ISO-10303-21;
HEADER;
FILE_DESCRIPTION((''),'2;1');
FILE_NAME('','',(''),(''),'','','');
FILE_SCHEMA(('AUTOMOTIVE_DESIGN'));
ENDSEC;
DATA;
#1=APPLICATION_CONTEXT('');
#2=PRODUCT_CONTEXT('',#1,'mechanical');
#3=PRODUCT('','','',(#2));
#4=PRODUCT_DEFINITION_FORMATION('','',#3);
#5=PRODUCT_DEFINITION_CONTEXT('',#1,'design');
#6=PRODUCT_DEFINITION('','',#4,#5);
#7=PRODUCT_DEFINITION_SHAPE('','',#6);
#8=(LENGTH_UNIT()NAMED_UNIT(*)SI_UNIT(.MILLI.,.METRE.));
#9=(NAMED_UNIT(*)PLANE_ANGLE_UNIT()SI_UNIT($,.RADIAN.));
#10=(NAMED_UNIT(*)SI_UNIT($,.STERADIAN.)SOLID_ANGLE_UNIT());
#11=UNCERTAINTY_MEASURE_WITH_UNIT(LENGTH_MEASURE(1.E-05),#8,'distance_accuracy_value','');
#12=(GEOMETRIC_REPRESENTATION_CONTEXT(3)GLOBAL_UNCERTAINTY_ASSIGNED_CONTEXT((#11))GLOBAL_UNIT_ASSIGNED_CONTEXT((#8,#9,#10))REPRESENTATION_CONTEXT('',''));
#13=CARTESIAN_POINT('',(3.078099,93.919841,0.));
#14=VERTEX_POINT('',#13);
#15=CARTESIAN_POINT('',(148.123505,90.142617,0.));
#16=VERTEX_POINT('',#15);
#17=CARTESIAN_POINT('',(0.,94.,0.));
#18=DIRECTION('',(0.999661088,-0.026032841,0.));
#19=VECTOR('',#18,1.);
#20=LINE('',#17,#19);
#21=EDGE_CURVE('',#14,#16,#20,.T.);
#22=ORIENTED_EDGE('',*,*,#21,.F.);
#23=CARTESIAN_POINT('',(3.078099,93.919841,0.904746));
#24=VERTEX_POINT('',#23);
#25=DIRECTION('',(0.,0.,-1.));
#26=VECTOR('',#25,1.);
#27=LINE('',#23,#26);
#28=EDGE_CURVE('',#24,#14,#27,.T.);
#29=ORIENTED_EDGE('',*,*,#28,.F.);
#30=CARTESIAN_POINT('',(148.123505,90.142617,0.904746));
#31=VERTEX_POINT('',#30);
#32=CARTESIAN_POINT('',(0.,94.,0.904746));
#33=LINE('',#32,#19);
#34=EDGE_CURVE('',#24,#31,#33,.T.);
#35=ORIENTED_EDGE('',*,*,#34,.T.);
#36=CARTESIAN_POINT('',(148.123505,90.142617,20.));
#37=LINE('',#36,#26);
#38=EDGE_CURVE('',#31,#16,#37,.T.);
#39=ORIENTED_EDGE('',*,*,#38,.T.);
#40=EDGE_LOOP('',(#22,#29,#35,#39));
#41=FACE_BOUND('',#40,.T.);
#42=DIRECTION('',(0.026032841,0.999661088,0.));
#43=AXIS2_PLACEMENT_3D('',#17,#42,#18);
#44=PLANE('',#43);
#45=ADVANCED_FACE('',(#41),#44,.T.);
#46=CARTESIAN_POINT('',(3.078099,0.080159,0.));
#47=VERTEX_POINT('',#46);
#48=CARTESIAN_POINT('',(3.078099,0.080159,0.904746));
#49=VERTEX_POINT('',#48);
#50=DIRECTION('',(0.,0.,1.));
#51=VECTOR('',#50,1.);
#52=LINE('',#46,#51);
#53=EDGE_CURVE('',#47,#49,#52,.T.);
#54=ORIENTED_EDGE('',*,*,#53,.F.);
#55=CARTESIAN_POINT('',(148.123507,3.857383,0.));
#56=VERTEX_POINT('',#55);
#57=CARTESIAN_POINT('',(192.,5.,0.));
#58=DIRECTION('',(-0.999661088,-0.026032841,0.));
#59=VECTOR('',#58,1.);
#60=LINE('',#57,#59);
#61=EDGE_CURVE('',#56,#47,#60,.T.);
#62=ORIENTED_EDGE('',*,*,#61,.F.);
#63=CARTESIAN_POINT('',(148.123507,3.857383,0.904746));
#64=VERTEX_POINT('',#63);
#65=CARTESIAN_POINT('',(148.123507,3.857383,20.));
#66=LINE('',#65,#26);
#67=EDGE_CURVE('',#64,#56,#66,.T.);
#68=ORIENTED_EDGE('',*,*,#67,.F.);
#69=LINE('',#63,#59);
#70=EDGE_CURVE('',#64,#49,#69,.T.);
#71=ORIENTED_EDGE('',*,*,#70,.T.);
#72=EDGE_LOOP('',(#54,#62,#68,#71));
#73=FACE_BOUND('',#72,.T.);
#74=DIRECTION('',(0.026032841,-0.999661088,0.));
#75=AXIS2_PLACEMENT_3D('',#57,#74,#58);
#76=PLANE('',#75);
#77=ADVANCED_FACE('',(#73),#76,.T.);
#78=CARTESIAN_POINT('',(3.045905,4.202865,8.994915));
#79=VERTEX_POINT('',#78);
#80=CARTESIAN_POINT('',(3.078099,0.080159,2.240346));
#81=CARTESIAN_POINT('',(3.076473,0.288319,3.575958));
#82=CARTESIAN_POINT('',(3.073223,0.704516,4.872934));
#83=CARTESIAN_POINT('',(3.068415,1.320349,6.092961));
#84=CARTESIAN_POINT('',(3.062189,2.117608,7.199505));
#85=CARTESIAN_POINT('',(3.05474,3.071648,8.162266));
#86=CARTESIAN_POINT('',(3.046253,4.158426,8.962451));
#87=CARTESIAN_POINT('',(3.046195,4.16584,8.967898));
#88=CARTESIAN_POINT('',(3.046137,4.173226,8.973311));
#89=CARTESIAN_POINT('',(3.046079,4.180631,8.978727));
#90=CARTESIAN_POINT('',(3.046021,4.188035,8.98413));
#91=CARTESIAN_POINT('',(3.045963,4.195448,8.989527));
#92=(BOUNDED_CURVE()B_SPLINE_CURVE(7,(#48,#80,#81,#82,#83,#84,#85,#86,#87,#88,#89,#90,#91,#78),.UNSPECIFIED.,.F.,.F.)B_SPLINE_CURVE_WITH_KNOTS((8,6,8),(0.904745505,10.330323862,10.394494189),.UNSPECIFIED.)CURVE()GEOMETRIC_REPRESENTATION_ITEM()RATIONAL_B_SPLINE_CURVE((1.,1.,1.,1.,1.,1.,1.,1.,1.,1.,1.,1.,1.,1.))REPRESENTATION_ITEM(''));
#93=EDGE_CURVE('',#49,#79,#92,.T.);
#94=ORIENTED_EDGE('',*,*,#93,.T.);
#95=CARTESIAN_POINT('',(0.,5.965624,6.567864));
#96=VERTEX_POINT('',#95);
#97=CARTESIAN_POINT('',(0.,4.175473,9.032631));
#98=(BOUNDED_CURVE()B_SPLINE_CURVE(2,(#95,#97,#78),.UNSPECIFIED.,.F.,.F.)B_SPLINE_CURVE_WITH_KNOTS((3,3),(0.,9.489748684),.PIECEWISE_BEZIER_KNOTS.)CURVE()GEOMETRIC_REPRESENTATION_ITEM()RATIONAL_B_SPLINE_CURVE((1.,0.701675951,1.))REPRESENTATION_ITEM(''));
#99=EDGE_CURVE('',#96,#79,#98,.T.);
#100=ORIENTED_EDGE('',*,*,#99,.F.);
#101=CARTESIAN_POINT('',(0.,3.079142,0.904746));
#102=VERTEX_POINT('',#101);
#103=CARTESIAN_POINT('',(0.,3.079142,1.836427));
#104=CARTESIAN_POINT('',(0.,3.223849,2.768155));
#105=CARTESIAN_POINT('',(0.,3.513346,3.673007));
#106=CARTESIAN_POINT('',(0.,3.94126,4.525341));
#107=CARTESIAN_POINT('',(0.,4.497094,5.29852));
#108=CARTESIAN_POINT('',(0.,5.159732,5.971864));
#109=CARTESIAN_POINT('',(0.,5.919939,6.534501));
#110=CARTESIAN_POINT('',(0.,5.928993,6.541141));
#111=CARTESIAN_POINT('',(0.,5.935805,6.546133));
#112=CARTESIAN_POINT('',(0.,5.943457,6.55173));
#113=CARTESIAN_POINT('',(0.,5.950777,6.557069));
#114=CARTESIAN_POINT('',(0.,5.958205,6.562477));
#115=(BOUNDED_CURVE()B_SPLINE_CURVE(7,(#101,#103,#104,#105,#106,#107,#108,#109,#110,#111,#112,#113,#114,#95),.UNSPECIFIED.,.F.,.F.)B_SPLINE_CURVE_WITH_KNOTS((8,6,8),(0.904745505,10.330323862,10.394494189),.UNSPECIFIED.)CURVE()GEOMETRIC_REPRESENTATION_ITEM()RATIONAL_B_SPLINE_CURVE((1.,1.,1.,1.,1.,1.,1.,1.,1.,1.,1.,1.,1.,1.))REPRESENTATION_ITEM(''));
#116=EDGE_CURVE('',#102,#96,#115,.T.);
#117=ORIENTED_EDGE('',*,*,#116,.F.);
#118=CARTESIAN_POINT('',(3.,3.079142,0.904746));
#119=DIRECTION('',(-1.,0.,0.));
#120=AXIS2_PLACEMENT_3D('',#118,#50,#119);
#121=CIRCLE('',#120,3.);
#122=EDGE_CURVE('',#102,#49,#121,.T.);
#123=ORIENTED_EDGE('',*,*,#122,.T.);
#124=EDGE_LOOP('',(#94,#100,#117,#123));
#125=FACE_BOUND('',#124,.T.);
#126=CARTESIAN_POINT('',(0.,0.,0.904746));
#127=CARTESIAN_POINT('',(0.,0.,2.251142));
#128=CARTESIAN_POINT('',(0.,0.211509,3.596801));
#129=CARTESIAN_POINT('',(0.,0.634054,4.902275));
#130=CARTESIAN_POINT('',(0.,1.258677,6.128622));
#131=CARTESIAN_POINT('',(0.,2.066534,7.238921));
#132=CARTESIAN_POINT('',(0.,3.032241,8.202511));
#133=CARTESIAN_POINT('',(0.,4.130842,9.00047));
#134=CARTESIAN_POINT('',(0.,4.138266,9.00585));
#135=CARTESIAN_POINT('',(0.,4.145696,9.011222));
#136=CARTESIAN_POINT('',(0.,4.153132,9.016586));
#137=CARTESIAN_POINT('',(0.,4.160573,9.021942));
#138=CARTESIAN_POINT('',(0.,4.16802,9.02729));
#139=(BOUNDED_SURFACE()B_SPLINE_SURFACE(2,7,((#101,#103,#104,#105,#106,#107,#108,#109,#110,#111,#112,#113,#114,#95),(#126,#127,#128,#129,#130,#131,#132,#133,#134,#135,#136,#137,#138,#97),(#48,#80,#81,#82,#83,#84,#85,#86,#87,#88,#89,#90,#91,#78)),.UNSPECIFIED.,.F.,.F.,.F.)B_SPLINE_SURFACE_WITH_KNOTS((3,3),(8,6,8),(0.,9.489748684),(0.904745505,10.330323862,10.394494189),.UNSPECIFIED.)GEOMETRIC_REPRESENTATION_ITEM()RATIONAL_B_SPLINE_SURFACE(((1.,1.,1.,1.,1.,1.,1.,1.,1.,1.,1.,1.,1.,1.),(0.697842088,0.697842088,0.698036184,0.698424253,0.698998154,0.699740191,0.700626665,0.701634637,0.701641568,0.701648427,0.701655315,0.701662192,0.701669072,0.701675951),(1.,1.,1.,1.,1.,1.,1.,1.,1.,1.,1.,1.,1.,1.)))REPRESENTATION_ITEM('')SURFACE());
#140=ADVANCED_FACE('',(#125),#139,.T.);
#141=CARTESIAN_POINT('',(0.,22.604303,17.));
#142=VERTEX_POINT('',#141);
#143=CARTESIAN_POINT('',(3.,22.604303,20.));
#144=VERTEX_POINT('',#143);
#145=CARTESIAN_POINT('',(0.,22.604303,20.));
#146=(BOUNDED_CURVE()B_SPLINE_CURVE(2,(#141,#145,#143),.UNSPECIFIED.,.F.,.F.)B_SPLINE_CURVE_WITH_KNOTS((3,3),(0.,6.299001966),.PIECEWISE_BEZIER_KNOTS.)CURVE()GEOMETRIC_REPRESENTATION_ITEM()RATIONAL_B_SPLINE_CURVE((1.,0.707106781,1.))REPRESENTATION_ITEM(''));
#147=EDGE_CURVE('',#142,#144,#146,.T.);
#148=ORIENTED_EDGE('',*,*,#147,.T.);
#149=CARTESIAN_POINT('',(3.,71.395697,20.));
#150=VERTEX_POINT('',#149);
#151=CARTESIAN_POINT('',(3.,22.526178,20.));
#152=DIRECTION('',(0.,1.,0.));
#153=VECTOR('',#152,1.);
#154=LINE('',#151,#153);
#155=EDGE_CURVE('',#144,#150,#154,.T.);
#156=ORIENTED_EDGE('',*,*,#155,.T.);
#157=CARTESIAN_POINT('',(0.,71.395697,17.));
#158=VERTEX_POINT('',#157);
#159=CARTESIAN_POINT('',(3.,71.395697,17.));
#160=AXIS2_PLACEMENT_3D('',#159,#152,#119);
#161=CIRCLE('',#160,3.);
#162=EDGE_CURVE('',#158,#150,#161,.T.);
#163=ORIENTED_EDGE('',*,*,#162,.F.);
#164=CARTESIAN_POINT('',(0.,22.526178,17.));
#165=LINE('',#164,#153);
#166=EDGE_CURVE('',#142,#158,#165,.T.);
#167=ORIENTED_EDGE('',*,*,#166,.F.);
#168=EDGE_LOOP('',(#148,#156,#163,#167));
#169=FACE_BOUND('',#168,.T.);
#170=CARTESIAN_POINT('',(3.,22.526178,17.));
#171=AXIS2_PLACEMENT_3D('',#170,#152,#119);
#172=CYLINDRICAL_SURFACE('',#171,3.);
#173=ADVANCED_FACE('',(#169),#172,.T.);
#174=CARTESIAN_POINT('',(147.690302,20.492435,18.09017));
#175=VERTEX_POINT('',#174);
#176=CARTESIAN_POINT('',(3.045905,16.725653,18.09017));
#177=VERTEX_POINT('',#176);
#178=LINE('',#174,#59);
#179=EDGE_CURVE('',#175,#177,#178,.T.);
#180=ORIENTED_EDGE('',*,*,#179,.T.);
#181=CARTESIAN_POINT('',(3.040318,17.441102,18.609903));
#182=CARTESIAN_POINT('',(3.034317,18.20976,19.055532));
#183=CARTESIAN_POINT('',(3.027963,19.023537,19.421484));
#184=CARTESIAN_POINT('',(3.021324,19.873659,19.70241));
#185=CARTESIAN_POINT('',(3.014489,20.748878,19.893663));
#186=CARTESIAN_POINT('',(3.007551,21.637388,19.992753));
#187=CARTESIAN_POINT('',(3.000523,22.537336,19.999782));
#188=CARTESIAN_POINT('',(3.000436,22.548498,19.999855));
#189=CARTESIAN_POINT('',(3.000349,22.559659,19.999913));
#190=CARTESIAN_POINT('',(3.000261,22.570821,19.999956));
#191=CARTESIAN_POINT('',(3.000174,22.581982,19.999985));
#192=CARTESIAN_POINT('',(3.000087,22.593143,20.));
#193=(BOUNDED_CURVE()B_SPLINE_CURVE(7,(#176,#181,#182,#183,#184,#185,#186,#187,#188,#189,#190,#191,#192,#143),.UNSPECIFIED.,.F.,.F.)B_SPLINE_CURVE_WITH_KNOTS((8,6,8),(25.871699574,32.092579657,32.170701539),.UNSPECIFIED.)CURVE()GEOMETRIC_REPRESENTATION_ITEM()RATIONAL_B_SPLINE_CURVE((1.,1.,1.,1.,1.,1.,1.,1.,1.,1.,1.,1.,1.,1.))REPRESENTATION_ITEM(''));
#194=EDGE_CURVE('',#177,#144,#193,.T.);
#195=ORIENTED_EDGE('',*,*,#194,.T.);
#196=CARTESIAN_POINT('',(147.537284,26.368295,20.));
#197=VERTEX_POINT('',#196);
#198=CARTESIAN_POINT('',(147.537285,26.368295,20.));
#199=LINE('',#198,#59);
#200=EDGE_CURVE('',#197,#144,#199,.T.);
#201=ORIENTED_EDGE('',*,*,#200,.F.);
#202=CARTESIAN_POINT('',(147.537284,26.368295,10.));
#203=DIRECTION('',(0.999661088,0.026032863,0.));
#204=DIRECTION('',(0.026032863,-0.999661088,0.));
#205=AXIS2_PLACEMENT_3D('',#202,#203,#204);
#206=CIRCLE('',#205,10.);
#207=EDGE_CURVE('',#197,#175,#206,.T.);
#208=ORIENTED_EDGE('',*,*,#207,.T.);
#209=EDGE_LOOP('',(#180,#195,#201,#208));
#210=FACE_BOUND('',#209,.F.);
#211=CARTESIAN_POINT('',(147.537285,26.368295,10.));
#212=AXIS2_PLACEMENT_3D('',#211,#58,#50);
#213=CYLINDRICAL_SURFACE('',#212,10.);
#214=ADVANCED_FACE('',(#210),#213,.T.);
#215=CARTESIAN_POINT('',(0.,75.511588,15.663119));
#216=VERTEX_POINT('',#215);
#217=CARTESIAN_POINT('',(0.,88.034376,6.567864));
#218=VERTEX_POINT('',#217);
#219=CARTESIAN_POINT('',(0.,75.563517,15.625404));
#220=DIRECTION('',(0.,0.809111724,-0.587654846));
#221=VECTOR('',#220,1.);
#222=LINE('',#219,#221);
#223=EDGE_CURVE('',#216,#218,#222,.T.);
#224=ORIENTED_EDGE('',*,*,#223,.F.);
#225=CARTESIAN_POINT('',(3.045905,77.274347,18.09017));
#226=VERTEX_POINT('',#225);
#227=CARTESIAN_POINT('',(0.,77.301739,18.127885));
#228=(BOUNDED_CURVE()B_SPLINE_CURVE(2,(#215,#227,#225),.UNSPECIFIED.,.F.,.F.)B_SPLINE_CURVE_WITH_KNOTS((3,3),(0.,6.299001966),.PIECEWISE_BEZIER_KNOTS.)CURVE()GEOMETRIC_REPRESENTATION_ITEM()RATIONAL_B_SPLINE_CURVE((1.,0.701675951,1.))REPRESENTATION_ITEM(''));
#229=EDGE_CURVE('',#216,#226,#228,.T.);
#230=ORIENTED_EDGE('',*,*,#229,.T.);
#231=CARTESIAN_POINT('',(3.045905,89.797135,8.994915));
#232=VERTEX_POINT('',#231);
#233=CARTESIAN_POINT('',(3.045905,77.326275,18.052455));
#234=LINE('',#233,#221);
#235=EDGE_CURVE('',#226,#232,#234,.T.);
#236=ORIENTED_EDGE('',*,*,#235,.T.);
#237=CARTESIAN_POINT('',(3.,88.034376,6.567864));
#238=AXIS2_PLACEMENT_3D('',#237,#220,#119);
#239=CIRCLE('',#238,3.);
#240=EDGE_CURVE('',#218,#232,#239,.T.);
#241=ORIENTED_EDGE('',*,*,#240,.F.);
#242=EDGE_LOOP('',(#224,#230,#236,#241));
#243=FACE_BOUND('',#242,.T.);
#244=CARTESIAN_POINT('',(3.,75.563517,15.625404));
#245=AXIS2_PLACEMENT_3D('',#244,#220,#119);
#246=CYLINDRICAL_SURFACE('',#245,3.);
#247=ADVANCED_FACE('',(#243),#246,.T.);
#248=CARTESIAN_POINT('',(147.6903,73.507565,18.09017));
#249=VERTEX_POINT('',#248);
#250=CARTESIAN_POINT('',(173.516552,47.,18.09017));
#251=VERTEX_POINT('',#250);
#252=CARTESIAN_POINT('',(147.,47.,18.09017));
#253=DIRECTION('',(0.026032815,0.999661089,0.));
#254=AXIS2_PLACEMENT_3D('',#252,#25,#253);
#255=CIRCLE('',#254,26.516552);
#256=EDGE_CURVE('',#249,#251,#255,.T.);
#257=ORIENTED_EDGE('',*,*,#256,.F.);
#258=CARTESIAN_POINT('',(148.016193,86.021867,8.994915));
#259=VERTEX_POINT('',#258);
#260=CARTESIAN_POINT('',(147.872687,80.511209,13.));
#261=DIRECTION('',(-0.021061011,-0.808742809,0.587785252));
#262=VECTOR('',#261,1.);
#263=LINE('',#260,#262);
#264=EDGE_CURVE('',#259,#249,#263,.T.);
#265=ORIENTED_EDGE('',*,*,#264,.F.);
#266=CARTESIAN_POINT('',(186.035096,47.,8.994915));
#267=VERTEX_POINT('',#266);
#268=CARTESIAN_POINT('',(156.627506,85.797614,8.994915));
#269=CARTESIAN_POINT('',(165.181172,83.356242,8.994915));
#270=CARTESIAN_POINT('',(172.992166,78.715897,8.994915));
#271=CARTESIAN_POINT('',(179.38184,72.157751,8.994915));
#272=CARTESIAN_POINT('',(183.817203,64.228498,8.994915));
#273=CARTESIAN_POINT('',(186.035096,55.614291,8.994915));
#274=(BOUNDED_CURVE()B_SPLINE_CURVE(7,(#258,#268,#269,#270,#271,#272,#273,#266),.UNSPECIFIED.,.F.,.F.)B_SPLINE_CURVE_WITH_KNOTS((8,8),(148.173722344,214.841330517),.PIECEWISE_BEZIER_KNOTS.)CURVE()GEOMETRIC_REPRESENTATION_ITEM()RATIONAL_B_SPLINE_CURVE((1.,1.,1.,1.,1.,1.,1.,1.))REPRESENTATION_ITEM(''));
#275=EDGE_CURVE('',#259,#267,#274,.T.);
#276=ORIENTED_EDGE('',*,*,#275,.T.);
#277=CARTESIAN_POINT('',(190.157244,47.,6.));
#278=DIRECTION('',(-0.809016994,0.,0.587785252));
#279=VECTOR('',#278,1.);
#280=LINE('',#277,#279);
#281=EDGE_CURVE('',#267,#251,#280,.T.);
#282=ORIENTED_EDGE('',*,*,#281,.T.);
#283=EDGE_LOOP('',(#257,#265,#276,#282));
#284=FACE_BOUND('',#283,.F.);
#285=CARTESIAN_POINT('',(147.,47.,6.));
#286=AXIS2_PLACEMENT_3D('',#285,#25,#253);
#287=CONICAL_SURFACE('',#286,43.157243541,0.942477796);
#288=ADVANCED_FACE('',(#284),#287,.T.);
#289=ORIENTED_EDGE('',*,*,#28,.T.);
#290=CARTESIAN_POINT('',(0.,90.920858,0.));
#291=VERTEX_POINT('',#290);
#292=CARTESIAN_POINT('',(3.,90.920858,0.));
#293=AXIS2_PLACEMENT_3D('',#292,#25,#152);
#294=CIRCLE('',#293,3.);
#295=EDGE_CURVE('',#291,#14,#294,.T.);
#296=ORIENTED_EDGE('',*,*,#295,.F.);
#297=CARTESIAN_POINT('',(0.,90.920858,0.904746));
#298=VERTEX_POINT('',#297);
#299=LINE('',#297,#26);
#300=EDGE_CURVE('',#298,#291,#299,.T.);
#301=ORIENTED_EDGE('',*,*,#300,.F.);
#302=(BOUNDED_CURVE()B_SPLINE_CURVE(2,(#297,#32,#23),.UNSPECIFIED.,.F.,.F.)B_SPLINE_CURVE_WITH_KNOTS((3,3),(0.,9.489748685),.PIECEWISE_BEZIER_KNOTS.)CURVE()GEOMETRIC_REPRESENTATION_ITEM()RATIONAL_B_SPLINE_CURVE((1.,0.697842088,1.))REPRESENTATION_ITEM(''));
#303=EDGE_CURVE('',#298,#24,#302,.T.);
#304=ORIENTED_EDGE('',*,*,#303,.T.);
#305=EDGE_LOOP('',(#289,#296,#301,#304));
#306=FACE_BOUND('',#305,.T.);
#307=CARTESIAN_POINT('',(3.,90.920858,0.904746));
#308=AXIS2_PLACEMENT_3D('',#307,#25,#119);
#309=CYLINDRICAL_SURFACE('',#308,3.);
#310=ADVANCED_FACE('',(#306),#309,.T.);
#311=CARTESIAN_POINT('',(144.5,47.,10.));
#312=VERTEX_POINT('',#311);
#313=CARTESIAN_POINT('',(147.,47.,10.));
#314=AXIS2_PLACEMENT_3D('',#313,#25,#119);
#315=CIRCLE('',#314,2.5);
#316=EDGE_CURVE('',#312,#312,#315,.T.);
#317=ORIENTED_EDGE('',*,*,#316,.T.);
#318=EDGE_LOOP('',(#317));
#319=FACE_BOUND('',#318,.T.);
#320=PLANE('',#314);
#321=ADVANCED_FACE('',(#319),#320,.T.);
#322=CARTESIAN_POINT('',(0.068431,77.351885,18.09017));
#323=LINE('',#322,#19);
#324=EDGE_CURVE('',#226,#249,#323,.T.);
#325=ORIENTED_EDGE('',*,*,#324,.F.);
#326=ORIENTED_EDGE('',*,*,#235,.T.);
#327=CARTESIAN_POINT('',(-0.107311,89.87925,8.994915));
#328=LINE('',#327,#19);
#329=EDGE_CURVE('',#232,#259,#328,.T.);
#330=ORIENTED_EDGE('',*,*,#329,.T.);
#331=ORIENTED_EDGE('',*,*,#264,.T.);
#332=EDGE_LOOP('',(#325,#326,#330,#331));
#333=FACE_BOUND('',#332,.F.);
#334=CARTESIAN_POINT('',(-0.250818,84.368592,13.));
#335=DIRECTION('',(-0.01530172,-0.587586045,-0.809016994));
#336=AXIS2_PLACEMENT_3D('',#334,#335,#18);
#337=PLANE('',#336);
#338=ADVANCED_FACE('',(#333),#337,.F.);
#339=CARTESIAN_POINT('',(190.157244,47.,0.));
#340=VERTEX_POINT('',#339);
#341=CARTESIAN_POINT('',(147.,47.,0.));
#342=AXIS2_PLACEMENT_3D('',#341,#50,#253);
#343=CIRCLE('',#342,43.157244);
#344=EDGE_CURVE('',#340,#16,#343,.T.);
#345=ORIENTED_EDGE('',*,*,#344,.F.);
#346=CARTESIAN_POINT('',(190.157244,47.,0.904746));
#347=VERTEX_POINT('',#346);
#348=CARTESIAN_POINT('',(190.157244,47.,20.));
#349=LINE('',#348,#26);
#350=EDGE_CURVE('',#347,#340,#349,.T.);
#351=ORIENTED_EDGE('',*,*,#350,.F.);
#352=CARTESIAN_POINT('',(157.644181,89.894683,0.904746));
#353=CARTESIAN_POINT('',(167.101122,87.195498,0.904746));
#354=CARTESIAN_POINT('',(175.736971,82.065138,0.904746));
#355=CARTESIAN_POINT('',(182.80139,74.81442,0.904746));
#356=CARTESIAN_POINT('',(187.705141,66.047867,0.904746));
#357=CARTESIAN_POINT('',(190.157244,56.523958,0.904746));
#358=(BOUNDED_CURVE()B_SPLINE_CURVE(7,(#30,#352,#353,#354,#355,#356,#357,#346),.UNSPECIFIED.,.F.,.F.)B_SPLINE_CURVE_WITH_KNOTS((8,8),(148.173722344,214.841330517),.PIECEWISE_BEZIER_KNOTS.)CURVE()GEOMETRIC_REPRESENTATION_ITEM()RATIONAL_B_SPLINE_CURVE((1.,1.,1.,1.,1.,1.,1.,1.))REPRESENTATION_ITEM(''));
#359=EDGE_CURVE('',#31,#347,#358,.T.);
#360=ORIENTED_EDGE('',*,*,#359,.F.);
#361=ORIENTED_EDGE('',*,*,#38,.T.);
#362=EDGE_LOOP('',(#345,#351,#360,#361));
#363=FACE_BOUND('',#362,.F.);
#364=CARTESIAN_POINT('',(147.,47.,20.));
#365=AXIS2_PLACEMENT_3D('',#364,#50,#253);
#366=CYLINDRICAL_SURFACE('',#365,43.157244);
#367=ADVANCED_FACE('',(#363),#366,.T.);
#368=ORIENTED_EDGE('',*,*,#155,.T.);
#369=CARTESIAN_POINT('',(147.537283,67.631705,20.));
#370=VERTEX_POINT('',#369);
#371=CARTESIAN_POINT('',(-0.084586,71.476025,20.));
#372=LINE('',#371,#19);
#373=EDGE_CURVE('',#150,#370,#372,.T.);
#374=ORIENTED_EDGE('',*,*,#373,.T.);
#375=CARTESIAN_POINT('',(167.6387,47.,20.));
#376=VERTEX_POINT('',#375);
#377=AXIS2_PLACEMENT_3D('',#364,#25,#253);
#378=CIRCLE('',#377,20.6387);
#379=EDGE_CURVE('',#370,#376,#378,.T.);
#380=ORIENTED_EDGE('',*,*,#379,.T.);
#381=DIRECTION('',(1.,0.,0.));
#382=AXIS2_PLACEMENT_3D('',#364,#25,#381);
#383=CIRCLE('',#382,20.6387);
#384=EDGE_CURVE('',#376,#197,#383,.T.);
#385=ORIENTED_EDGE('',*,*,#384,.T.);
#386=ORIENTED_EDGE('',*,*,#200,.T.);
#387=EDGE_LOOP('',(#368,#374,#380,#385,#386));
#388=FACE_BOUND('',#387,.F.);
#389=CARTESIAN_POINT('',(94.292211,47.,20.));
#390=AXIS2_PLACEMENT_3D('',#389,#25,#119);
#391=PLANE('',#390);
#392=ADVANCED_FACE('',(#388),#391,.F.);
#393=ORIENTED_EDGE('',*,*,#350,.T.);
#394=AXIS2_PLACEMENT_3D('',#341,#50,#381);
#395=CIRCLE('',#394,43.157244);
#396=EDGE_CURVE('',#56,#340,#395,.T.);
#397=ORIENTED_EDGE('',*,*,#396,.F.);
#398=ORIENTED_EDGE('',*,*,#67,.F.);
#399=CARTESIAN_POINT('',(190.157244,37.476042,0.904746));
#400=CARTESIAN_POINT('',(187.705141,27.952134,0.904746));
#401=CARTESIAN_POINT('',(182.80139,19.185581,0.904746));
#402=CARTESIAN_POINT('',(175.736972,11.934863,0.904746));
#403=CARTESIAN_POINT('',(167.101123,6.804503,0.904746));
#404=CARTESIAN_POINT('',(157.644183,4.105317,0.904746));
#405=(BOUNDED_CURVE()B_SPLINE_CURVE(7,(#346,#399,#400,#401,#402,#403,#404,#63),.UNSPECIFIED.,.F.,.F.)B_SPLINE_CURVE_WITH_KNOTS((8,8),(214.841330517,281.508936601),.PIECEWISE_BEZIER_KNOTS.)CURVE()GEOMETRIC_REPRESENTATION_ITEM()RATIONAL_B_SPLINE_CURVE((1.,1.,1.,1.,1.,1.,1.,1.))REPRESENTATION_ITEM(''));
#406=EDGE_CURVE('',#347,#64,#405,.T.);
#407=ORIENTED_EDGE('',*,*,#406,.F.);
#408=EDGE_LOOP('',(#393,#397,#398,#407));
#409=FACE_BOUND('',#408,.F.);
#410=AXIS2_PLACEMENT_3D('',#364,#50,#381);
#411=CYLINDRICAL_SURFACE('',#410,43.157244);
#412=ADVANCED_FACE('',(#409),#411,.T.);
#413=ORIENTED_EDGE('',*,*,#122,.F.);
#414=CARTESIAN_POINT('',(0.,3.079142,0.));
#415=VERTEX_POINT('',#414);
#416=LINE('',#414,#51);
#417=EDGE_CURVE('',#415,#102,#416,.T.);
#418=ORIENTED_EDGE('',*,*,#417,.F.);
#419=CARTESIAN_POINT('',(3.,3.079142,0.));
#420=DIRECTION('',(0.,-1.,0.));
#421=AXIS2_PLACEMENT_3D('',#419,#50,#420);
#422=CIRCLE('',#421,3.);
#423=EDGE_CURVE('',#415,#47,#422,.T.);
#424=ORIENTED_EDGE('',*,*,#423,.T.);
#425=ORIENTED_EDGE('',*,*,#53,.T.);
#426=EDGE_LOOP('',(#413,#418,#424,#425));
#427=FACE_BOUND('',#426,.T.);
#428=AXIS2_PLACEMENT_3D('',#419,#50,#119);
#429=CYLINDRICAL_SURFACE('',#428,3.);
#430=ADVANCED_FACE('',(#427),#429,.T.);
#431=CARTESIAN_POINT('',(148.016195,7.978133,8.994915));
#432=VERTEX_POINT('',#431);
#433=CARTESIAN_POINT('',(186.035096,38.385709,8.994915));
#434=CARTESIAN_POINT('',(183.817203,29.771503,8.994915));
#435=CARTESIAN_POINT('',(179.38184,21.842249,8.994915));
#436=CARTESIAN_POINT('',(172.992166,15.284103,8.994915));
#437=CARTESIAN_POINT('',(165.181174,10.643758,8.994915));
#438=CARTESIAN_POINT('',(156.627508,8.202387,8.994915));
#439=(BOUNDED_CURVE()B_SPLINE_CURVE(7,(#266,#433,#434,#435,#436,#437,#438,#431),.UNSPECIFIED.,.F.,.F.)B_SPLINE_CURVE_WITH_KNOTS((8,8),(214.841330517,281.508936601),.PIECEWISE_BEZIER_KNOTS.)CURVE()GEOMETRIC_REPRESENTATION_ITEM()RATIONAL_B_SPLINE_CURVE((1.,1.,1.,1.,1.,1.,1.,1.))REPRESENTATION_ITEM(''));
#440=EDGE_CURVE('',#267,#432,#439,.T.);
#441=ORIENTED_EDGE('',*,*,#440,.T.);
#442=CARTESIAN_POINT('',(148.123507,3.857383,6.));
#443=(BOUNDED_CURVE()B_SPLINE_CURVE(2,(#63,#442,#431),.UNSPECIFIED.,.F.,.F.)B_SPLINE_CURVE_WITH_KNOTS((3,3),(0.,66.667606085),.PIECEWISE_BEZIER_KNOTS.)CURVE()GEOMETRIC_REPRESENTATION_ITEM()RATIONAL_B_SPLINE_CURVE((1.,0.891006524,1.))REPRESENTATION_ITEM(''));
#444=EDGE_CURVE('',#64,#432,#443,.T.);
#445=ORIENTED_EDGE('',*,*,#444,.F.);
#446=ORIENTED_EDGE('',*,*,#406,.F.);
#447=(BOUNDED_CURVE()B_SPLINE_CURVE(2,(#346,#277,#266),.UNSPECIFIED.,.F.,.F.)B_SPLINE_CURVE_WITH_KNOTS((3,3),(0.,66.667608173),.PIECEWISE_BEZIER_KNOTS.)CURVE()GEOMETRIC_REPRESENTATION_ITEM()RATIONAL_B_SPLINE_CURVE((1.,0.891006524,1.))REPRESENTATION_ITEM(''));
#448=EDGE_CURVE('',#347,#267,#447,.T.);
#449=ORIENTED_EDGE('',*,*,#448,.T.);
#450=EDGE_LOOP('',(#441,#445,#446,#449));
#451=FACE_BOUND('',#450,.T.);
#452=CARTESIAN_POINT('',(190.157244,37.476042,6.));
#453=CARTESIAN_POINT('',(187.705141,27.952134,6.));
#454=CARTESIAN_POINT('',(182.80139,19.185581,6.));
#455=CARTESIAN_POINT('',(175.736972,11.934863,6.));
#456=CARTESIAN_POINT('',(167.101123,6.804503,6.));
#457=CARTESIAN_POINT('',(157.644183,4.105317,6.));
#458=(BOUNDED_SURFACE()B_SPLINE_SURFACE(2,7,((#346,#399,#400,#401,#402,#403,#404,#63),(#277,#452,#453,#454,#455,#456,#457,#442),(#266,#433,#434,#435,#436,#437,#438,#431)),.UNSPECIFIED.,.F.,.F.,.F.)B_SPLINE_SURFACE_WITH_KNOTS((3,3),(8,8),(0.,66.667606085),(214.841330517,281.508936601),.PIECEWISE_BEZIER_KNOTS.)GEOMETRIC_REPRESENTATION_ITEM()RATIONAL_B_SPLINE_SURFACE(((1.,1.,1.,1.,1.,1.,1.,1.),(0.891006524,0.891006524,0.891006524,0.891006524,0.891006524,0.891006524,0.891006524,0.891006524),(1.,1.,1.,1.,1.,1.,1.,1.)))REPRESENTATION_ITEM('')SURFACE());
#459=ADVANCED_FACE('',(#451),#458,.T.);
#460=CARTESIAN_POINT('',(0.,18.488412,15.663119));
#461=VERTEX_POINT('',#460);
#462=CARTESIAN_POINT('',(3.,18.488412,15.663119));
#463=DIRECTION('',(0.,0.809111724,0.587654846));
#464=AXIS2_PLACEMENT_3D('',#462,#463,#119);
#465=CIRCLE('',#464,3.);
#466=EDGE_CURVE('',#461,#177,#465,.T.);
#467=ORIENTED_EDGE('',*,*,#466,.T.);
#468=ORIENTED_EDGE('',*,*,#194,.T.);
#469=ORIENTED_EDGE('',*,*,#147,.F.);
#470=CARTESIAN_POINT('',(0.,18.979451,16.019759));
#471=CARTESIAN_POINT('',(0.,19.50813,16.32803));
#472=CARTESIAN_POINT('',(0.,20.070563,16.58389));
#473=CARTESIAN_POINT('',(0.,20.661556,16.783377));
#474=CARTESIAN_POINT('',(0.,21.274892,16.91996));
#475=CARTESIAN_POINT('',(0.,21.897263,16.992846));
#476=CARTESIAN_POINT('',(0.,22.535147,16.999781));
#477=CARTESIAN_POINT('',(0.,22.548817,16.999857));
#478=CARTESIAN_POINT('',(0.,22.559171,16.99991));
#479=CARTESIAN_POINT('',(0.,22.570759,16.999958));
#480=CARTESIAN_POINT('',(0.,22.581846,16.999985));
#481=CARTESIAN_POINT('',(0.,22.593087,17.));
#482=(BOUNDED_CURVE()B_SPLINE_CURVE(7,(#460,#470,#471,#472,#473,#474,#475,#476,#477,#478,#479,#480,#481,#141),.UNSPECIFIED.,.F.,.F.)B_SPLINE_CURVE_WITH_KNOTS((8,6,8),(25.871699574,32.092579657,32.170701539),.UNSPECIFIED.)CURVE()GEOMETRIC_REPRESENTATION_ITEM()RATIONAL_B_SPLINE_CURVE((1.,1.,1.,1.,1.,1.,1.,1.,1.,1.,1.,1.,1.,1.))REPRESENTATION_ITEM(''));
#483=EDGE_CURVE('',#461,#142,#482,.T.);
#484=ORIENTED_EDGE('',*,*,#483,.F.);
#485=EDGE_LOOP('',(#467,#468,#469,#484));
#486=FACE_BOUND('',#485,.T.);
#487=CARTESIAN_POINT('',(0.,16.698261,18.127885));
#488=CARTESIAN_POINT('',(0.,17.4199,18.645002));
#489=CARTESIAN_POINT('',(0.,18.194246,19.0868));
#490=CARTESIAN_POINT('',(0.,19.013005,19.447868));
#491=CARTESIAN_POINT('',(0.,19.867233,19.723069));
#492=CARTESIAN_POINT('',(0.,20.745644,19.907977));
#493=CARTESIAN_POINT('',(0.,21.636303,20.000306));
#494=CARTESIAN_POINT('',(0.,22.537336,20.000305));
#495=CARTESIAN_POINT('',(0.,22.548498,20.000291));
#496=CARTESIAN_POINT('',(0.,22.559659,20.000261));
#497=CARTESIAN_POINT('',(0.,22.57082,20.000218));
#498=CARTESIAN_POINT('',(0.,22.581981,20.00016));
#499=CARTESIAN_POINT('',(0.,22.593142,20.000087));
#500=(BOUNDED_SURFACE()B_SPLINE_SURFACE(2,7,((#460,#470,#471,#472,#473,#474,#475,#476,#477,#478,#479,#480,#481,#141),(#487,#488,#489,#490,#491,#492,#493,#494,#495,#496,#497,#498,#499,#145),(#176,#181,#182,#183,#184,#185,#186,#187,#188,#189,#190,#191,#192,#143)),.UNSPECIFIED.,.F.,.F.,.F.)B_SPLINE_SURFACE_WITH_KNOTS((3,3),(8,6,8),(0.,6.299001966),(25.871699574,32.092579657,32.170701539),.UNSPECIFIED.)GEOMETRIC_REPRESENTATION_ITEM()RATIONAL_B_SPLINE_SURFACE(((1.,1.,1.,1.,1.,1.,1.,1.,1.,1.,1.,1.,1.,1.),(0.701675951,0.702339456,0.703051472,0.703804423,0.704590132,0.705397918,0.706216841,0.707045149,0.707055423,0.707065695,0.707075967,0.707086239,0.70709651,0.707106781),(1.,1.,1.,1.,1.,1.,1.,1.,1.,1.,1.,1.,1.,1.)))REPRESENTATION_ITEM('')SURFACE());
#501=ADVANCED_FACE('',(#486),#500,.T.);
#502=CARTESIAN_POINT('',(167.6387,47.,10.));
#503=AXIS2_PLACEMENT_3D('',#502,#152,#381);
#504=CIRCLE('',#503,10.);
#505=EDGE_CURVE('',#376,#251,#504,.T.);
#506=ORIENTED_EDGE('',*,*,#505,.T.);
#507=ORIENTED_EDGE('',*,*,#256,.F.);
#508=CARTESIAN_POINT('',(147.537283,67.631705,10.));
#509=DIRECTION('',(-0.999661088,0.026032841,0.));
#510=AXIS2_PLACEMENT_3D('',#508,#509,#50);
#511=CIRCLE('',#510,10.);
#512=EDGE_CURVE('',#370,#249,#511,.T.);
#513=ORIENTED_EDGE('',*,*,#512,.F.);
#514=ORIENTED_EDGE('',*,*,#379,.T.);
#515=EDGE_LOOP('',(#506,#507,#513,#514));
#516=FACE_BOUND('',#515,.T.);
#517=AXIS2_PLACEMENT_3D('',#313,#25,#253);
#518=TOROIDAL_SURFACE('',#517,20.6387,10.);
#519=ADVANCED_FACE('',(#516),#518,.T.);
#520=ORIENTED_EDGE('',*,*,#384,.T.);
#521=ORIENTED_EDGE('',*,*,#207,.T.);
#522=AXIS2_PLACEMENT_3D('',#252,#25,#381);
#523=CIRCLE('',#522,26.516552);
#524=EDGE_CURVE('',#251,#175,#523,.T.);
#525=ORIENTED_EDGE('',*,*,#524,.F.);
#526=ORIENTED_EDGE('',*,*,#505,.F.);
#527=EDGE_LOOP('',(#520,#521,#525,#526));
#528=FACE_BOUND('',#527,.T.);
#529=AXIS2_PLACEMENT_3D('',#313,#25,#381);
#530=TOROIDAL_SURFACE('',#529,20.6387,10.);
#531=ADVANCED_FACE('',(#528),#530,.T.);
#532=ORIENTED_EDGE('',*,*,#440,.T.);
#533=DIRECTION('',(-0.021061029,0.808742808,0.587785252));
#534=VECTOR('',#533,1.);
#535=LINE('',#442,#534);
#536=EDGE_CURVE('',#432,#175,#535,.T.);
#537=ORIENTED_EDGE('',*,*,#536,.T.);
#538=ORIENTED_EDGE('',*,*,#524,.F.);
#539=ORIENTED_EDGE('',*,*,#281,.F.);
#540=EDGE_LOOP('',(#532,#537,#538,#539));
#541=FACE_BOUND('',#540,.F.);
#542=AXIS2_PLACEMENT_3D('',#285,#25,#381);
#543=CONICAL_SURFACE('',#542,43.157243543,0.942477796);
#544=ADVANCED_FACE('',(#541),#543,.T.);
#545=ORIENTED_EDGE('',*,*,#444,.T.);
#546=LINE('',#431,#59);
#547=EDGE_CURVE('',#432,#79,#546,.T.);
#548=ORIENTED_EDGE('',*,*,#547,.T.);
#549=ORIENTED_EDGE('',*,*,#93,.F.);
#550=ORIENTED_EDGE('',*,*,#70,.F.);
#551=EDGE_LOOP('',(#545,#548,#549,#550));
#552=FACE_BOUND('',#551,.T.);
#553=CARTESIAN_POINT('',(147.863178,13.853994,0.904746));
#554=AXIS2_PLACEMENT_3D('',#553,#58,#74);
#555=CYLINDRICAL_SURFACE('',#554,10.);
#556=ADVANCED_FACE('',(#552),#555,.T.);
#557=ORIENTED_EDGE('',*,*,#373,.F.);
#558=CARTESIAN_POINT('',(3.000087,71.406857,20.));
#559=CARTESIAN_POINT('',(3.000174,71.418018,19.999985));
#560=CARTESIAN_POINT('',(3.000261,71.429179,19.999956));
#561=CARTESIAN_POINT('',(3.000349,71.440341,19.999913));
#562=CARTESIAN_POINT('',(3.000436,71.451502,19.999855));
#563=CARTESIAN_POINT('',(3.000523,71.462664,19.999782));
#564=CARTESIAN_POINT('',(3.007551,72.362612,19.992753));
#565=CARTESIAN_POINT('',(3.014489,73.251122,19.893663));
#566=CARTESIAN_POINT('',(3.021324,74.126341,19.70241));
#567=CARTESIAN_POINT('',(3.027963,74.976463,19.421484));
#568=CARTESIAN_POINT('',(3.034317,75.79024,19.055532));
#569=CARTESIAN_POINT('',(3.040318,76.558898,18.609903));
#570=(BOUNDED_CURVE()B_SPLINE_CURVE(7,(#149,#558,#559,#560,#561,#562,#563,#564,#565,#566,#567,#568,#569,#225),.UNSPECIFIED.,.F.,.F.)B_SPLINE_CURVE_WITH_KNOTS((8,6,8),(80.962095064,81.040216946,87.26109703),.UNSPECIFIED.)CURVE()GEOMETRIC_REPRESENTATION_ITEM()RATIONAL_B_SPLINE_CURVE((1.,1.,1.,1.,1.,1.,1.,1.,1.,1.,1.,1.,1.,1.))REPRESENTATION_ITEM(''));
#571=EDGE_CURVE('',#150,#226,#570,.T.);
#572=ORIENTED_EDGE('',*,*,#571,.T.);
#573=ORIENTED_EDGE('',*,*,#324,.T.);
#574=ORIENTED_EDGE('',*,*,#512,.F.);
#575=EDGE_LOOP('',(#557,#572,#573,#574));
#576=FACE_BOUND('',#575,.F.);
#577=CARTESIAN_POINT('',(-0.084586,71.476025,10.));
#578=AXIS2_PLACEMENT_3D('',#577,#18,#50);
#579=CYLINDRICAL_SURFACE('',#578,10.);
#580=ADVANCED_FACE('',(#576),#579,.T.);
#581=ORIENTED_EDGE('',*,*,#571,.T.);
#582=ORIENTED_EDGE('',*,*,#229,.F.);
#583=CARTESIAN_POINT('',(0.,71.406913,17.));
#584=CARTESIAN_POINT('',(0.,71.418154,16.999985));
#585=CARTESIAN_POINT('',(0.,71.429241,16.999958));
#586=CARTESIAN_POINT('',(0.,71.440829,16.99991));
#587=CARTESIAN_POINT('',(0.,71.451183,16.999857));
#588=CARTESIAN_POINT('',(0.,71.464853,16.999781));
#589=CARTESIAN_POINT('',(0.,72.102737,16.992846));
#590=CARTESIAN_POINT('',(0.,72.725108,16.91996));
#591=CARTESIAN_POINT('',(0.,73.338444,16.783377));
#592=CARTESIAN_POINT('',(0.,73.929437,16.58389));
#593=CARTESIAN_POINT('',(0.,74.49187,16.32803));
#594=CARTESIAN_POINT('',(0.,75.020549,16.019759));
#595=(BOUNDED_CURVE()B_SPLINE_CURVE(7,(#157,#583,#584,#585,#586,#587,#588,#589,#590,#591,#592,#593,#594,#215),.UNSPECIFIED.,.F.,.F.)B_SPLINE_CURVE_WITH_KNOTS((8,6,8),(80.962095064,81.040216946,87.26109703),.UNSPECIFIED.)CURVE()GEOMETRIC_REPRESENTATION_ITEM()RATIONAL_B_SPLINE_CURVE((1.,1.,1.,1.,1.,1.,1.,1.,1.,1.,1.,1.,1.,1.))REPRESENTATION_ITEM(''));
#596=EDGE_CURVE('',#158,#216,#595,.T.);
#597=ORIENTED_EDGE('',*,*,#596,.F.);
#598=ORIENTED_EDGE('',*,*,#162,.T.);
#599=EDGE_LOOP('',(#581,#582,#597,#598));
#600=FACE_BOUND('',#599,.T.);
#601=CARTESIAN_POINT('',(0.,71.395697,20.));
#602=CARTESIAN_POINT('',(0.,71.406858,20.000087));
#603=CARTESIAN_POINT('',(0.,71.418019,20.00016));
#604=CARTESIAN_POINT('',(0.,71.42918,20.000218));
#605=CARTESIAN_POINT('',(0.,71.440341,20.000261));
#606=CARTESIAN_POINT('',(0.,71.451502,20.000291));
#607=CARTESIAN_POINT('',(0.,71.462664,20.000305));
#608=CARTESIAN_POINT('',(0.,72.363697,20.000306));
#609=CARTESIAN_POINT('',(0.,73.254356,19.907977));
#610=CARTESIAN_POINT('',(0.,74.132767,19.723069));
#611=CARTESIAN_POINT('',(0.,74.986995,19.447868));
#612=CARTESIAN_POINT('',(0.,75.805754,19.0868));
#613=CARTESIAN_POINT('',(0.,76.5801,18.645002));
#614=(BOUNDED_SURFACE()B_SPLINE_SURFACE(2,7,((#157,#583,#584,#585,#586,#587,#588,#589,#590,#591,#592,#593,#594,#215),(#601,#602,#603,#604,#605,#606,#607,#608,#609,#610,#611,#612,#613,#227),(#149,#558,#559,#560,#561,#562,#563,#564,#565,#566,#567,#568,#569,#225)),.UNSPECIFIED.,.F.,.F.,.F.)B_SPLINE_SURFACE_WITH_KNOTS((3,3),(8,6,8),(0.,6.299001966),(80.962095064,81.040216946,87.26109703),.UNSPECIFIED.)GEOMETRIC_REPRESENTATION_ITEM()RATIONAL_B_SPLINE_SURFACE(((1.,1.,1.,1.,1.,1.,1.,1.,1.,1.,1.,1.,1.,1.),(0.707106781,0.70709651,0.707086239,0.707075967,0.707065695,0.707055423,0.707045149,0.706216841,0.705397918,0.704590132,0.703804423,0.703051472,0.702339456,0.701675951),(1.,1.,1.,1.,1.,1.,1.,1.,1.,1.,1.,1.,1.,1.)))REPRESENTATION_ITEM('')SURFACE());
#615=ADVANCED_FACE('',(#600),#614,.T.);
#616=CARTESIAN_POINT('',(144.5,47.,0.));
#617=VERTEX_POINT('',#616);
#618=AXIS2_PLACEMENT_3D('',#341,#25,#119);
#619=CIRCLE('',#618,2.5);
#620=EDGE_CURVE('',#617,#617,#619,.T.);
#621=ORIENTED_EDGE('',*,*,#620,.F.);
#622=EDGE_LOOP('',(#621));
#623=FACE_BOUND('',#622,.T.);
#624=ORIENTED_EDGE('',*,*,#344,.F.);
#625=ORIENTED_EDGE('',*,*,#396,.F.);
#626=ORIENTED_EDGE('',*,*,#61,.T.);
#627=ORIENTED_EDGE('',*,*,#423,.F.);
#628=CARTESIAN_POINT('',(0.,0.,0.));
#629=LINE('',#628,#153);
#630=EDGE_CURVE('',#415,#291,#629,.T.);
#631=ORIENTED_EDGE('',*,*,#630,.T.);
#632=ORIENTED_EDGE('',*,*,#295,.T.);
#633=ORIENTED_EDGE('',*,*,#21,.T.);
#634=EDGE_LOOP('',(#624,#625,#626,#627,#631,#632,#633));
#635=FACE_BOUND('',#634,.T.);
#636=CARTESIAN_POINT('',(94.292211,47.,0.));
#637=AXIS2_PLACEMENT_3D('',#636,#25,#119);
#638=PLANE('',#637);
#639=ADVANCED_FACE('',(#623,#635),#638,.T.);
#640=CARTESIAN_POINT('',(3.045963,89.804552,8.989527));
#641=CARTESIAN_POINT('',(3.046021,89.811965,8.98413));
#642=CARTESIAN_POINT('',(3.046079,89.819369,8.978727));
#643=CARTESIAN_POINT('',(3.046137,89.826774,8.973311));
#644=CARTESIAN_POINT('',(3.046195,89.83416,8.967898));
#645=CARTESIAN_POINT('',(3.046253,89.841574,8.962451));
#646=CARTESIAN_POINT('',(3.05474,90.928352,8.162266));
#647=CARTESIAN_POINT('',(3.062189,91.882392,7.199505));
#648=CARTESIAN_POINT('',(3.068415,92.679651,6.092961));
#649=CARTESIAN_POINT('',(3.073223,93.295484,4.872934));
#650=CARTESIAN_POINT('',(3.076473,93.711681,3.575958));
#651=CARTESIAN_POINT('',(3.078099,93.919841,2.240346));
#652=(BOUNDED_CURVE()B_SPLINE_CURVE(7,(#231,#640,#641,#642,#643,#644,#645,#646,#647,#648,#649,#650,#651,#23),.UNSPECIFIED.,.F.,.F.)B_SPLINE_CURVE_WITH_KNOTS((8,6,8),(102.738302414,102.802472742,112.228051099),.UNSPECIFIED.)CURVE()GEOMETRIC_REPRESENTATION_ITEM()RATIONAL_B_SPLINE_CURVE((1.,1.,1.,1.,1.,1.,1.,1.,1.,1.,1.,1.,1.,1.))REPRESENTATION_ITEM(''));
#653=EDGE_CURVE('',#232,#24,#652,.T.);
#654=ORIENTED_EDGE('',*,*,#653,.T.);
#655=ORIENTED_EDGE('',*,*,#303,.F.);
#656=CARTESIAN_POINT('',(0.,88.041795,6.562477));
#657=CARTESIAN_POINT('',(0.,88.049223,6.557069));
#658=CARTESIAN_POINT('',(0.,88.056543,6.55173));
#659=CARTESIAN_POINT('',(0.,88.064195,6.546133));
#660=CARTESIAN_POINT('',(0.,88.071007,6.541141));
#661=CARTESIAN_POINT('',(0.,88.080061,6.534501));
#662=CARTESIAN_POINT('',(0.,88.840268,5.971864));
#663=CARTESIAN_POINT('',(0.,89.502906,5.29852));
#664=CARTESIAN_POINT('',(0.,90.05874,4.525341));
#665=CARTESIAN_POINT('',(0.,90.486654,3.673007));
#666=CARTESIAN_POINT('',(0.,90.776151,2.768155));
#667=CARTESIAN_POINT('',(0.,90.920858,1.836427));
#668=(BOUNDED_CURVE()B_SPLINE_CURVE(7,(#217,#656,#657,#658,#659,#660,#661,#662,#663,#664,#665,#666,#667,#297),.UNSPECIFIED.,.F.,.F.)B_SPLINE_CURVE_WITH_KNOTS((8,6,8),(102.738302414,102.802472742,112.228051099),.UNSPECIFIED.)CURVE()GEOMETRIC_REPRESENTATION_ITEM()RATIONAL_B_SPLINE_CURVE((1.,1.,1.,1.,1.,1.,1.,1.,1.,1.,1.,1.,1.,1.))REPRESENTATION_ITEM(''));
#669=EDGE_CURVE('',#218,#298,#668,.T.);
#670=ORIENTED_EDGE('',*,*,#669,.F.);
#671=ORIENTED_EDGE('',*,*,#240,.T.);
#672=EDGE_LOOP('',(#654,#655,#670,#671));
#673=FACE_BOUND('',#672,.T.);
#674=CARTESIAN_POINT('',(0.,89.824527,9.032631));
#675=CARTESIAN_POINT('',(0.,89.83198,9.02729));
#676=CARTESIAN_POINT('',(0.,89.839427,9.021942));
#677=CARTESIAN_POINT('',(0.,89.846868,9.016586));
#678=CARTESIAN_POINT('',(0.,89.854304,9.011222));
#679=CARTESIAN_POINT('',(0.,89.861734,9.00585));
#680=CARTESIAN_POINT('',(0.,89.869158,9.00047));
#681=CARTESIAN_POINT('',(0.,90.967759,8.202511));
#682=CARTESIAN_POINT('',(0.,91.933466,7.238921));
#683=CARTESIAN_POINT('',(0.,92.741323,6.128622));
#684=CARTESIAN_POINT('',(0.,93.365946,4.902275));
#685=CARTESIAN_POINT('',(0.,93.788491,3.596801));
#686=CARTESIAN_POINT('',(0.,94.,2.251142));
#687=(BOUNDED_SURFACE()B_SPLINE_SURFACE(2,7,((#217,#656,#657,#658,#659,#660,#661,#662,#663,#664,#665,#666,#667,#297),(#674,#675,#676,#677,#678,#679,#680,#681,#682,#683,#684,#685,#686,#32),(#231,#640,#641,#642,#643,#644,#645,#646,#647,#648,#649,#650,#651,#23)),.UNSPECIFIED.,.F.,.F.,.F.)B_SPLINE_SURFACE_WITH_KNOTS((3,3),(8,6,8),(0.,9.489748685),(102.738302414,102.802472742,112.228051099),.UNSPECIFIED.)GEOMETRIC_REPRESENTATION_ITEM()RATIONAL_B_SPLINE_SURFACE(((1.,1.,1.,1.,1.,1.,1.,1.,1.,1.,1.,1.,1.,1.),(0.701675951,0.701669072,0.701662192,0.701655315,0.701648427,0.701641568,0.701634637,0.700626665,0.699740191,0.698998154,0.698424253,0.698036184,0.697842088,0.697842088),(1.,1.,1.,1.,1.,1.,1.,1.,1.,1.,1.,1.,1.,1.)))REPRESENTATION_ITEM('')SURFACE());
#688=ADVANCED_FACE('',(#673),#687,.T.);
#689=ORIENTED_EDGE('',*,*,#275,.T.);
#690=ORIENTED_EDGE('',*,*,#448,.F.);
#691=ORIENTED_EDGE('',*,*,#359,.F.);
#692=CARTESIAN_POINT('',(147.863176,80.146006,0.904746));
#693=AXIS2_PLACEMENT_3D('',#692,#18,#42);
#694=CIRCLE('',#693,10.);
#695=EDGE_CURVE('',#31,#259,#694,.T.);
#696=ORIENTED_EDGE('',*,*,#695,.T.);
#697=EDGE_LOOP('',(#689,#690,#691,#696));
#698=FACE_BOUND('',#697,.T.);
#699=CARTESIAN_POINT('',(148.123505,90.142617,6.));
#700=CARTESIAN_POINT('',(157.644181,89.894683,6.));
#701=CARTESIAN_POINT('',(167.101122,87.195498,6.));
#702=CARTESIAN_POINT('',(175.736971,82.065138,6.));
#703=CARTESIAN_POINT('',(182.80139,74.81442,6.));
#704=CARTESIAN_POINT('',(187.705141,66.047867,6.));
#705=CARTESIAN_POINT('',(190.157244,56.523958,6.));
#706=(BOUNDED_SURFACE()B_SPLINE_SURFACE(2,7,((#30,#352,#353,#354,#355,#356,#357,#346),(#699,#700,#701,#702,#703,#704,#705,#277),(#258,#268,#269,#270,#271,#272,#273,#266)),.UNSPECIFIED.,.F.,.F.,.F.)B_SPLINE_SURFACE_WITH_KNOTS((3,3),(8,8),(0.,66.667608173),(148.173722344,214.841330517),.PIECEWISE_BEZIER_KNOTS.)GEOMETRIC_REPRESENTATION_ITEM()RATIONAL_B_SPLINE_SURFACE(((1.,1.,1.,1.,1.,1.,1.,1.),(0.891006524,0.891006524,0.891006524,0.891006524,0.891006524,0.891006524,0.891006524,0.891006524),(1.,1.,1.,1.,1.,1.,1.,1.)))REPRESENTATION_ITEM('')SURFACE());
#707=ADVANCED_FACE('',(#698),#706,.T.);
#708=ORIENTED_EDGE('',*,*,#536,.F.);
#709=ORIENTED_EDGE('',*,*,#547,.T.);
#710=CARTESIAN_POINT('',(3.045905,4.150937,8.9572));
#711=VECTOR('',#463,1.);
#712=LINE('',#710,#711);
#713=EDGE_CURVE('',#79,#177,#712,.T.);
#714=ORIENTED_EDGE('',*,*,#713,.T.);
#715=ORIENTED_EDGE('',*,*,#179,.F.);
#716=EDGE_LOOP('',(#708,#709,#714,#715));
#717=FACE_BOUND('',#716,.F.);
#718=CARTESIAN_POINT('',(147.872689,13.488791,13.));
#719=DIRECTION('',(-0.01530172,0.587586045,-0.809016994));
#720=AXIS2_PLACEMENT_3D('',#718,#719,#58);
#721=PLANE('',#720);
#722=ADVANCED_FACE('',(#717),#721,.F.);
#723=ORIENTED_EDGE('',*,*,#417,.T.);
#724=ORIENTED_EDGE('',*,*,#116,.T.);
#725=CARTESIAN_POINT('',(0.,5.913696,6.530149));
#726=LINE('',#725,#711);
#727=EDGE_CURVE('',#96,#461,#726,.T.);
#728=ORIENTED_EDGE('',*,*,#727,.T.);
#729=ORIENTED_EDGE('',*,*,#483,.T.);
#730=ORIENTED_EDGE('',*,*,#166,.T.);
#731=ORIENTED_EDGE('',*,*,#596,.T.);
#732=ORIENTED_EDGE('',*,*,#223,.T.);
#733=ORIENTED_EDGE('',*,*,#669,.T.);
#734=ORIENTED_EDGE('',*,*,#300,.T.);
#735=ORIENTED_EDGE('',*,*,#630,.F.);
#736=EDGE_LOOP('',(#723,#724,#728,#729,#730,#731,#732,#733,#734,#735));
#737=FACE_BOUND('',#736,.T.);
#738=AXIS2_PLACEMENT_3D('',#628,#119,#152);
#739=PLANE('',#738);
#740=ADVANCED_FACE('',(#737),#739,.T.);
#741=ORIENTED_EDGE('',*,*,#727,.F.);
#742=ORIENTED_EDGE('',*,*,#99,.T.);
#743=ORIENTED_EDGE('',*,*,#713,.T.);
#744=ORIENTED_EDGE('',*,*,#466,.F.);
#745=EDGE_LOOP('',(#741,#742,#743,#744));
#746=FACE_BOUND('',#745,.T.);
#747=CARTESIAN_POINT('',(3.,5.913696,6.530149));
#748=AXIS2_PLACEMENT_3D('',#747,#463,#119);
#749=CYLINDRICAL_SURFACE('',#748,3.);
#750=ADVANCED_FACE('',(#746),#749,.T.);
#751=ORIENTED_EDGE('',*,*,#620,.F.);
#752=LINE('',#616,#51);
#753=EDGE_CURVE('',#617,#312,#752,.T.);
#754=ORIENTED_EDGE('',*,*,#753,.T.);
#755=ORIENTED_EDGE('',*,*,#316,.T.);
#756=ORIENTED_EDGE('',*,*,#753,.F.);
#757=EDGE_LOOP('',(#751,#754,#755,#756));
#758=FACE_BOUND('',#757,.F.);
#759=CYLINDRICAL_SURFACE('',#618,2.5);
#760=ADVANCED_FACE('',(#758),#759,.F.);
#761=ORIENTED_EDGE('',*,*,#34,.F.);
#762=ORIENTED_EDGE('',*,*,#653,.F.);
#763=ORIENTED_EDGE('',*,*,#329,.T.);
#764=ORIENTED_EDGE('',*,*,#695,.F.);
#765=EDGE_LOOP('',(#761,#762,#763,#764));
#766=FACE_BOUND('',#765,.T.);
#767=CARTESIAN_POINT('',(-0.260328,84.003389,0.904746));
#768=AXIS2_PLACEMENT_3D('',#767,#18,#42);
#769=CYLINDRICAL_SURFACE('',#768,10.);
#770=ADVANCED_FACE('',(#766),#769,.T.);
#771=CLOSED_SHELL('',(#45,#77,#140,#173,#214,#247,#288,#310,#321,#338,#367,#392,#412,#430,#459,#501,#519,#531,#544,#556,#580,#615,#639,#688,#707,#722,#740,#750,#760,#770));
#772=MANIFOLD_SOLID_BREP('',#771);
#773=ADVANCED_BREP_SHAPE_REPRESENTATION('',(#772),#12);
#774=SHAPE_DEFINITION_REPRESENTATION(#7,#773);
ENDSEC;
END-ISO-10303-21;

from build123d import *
from OCP.BRepFilletAPI import BRepFilletAPI_MakeChamfer

# Parameters (mm, degrees)
EXTRUDE_1_DEPTH     = 20
CUT_EXTRUDE_1_DEPTH = 215.709105536
CHAMFER_1_SIZE      = 14
CHAMFER_1_SIZE2     = 19.269346887
FILLET_1_R          = 10
FILLET_2_R          = 3
SKETCH_3_R          = 2.5
CUT_EXTRUDE_2_DEPTH = 10


with BuildPart() as part:
    # ｽｹｯﾁ1 → 押し出し1 (new body)
    with BuildSketch(Plane.XY):
        Polygon((0, 0), (0, 94), (192, 89), (192, 5), align=None)
    extrude(amount=EXTRUDE_1_DEPTH)

    # ｽｹｯﾁ2 → ｶｯﾄ - 押し出し1 (cut, through all)
    with BuildSketch(Plane.XY.offset(20)):
        with BuildLine():
            Line((192, 89), (148.123504516, 90.14261707))
            ThreePointArc((148.123504516, 90.14261707), (177.911446327, 77.116941346), (190.157243541, 47))
            ThreePointArc((190.157243541, 47), (177.911447055, 16.883059402), (148.123506603, 3.857382984))
            Line((148.123506603, 3.857382984), (192, 5))
            Line((192, 5), (192, 89))
        make_face()
    extrude(amount=-CUT_EXTRUDE_1_DEPTH, mode=Mode.SUBTRACT)

    # 面取り1: one chamfer whose edges measure the first distance from different faces: ONE call of the kernel's chamfer builder (chamfer() names one face for all edges)
    chamfer_1_edges_1 = [part.edges().sort_by_distance(p)[0] for p in [
        (74.061752258, 92.071308535, 20),
    ]]
    chamfer_1_side_1 = [part.faces().sort_by_distance(p)[0] for p in [
        (74.061752258, 92.071308535, 10),
    ]]
    chamfer_1_edges_2 = [part.edges().sort_by_distance(p)[0] for p in [
        (190.157243541, 47.000001044, 20),
    ]]
    chamfer_1_side_2 = [part.faces().sort_by_distance(p)[0] for p in [
        (190.157243541, 47.000001044, 10),
    ]]
    chamfer_1_edges_3 = [part.edges().sort_by_distance(p)[0] for p in [
        (74.061753301, 1.928691492, 20),
    ]]
    chamfer_1_side_3 = [part.faces().sort_by_distance(p)[0] for p in [
        (74.061753301, 1.928691492, 10),
    ]]
    chamfer_1 = BRepFilletAPI_MakeChamfer(part.part.solid().wrapped)
    for e in chamfer_1_edges_1:
        chamfer_1.Add(CHAMFER_1_SIZE, CHAMFER_1_SIZE2, e.wrapped, chamfer_1_side_1[0].wrapped)  # the first distance lies on this face
    for e in chamfer_1_edges_2:
        chamfer_1.Add(CHAMFER_1_SIZE, CHAMFER_1_SIZE2, e.wrapped, chamfer_1_side_2[0].wrapped)  # the first distance lies on this face
    for e in chamfer_1_edges_3:
        chamfer_1.Add(CHAMFER_1_SIZE, CHAMFER_1_SIZE2, e.wrapped, chamfer_1_side_3[0].wrapped)  # the first distance lies on this face
    add(Compound.cast(chamfer_1.Shape()), mode=Mode.REPLACE)

    # ﾌｨﾚｯﾄ1
    fillet_1_edges = [part.edges().sort_by_distance(p)[0] for p in [
        (73.810934338, 72.801960541, 20),
        (170.887896654, 47.000000578, 20),
        (73.810935381, 21.198039486, 20),
        (74.061753301, 1.928691492, 6),
        (190.157243541, 47.000001044, 6),
        (74.061752258, 92.071308535, 6),
    ]]
    fillet(fillet_1_edges, radius=FILLET_1_R)

    # ﾌｨﾚｯﾄ2
    fillet_2_edges = [part.edges().sort_by_distance(p)[0] for p in [
        (0, 47, 20),
        (0, 10.38493898, 13.542542696),
        (0, 0, 0.452372753),
        (0, 83.61506102, 13.542542696),
        (0, 94, 0.452372753),
        (0, 92.909567354, 5.44490235),
        (0, 74.564948876, 19.510594551),
        (0, 1.090432646, 5.44490235),
        (0, 19.435051124, 19.510594551),
    ]]
    fillet(fillet_2_edges, radius=FILLET_2_R)

    # ｽｹｯﾁ3 → ｶｯﾄ - 押し出し2 (cut)
    with BuildSketch(Plane(origin=(0, 0, 0), x_dir=(-1, 0, 0), z_dir=(0, 0, -1))):
        with Locations((-147, 47)):
            Circle(SKETCH_3_R)
    extrude(amount=-CUT_EXTRUDE_2_DEPTH, mode=Mode.SUBTRACT)


solid = part.part
